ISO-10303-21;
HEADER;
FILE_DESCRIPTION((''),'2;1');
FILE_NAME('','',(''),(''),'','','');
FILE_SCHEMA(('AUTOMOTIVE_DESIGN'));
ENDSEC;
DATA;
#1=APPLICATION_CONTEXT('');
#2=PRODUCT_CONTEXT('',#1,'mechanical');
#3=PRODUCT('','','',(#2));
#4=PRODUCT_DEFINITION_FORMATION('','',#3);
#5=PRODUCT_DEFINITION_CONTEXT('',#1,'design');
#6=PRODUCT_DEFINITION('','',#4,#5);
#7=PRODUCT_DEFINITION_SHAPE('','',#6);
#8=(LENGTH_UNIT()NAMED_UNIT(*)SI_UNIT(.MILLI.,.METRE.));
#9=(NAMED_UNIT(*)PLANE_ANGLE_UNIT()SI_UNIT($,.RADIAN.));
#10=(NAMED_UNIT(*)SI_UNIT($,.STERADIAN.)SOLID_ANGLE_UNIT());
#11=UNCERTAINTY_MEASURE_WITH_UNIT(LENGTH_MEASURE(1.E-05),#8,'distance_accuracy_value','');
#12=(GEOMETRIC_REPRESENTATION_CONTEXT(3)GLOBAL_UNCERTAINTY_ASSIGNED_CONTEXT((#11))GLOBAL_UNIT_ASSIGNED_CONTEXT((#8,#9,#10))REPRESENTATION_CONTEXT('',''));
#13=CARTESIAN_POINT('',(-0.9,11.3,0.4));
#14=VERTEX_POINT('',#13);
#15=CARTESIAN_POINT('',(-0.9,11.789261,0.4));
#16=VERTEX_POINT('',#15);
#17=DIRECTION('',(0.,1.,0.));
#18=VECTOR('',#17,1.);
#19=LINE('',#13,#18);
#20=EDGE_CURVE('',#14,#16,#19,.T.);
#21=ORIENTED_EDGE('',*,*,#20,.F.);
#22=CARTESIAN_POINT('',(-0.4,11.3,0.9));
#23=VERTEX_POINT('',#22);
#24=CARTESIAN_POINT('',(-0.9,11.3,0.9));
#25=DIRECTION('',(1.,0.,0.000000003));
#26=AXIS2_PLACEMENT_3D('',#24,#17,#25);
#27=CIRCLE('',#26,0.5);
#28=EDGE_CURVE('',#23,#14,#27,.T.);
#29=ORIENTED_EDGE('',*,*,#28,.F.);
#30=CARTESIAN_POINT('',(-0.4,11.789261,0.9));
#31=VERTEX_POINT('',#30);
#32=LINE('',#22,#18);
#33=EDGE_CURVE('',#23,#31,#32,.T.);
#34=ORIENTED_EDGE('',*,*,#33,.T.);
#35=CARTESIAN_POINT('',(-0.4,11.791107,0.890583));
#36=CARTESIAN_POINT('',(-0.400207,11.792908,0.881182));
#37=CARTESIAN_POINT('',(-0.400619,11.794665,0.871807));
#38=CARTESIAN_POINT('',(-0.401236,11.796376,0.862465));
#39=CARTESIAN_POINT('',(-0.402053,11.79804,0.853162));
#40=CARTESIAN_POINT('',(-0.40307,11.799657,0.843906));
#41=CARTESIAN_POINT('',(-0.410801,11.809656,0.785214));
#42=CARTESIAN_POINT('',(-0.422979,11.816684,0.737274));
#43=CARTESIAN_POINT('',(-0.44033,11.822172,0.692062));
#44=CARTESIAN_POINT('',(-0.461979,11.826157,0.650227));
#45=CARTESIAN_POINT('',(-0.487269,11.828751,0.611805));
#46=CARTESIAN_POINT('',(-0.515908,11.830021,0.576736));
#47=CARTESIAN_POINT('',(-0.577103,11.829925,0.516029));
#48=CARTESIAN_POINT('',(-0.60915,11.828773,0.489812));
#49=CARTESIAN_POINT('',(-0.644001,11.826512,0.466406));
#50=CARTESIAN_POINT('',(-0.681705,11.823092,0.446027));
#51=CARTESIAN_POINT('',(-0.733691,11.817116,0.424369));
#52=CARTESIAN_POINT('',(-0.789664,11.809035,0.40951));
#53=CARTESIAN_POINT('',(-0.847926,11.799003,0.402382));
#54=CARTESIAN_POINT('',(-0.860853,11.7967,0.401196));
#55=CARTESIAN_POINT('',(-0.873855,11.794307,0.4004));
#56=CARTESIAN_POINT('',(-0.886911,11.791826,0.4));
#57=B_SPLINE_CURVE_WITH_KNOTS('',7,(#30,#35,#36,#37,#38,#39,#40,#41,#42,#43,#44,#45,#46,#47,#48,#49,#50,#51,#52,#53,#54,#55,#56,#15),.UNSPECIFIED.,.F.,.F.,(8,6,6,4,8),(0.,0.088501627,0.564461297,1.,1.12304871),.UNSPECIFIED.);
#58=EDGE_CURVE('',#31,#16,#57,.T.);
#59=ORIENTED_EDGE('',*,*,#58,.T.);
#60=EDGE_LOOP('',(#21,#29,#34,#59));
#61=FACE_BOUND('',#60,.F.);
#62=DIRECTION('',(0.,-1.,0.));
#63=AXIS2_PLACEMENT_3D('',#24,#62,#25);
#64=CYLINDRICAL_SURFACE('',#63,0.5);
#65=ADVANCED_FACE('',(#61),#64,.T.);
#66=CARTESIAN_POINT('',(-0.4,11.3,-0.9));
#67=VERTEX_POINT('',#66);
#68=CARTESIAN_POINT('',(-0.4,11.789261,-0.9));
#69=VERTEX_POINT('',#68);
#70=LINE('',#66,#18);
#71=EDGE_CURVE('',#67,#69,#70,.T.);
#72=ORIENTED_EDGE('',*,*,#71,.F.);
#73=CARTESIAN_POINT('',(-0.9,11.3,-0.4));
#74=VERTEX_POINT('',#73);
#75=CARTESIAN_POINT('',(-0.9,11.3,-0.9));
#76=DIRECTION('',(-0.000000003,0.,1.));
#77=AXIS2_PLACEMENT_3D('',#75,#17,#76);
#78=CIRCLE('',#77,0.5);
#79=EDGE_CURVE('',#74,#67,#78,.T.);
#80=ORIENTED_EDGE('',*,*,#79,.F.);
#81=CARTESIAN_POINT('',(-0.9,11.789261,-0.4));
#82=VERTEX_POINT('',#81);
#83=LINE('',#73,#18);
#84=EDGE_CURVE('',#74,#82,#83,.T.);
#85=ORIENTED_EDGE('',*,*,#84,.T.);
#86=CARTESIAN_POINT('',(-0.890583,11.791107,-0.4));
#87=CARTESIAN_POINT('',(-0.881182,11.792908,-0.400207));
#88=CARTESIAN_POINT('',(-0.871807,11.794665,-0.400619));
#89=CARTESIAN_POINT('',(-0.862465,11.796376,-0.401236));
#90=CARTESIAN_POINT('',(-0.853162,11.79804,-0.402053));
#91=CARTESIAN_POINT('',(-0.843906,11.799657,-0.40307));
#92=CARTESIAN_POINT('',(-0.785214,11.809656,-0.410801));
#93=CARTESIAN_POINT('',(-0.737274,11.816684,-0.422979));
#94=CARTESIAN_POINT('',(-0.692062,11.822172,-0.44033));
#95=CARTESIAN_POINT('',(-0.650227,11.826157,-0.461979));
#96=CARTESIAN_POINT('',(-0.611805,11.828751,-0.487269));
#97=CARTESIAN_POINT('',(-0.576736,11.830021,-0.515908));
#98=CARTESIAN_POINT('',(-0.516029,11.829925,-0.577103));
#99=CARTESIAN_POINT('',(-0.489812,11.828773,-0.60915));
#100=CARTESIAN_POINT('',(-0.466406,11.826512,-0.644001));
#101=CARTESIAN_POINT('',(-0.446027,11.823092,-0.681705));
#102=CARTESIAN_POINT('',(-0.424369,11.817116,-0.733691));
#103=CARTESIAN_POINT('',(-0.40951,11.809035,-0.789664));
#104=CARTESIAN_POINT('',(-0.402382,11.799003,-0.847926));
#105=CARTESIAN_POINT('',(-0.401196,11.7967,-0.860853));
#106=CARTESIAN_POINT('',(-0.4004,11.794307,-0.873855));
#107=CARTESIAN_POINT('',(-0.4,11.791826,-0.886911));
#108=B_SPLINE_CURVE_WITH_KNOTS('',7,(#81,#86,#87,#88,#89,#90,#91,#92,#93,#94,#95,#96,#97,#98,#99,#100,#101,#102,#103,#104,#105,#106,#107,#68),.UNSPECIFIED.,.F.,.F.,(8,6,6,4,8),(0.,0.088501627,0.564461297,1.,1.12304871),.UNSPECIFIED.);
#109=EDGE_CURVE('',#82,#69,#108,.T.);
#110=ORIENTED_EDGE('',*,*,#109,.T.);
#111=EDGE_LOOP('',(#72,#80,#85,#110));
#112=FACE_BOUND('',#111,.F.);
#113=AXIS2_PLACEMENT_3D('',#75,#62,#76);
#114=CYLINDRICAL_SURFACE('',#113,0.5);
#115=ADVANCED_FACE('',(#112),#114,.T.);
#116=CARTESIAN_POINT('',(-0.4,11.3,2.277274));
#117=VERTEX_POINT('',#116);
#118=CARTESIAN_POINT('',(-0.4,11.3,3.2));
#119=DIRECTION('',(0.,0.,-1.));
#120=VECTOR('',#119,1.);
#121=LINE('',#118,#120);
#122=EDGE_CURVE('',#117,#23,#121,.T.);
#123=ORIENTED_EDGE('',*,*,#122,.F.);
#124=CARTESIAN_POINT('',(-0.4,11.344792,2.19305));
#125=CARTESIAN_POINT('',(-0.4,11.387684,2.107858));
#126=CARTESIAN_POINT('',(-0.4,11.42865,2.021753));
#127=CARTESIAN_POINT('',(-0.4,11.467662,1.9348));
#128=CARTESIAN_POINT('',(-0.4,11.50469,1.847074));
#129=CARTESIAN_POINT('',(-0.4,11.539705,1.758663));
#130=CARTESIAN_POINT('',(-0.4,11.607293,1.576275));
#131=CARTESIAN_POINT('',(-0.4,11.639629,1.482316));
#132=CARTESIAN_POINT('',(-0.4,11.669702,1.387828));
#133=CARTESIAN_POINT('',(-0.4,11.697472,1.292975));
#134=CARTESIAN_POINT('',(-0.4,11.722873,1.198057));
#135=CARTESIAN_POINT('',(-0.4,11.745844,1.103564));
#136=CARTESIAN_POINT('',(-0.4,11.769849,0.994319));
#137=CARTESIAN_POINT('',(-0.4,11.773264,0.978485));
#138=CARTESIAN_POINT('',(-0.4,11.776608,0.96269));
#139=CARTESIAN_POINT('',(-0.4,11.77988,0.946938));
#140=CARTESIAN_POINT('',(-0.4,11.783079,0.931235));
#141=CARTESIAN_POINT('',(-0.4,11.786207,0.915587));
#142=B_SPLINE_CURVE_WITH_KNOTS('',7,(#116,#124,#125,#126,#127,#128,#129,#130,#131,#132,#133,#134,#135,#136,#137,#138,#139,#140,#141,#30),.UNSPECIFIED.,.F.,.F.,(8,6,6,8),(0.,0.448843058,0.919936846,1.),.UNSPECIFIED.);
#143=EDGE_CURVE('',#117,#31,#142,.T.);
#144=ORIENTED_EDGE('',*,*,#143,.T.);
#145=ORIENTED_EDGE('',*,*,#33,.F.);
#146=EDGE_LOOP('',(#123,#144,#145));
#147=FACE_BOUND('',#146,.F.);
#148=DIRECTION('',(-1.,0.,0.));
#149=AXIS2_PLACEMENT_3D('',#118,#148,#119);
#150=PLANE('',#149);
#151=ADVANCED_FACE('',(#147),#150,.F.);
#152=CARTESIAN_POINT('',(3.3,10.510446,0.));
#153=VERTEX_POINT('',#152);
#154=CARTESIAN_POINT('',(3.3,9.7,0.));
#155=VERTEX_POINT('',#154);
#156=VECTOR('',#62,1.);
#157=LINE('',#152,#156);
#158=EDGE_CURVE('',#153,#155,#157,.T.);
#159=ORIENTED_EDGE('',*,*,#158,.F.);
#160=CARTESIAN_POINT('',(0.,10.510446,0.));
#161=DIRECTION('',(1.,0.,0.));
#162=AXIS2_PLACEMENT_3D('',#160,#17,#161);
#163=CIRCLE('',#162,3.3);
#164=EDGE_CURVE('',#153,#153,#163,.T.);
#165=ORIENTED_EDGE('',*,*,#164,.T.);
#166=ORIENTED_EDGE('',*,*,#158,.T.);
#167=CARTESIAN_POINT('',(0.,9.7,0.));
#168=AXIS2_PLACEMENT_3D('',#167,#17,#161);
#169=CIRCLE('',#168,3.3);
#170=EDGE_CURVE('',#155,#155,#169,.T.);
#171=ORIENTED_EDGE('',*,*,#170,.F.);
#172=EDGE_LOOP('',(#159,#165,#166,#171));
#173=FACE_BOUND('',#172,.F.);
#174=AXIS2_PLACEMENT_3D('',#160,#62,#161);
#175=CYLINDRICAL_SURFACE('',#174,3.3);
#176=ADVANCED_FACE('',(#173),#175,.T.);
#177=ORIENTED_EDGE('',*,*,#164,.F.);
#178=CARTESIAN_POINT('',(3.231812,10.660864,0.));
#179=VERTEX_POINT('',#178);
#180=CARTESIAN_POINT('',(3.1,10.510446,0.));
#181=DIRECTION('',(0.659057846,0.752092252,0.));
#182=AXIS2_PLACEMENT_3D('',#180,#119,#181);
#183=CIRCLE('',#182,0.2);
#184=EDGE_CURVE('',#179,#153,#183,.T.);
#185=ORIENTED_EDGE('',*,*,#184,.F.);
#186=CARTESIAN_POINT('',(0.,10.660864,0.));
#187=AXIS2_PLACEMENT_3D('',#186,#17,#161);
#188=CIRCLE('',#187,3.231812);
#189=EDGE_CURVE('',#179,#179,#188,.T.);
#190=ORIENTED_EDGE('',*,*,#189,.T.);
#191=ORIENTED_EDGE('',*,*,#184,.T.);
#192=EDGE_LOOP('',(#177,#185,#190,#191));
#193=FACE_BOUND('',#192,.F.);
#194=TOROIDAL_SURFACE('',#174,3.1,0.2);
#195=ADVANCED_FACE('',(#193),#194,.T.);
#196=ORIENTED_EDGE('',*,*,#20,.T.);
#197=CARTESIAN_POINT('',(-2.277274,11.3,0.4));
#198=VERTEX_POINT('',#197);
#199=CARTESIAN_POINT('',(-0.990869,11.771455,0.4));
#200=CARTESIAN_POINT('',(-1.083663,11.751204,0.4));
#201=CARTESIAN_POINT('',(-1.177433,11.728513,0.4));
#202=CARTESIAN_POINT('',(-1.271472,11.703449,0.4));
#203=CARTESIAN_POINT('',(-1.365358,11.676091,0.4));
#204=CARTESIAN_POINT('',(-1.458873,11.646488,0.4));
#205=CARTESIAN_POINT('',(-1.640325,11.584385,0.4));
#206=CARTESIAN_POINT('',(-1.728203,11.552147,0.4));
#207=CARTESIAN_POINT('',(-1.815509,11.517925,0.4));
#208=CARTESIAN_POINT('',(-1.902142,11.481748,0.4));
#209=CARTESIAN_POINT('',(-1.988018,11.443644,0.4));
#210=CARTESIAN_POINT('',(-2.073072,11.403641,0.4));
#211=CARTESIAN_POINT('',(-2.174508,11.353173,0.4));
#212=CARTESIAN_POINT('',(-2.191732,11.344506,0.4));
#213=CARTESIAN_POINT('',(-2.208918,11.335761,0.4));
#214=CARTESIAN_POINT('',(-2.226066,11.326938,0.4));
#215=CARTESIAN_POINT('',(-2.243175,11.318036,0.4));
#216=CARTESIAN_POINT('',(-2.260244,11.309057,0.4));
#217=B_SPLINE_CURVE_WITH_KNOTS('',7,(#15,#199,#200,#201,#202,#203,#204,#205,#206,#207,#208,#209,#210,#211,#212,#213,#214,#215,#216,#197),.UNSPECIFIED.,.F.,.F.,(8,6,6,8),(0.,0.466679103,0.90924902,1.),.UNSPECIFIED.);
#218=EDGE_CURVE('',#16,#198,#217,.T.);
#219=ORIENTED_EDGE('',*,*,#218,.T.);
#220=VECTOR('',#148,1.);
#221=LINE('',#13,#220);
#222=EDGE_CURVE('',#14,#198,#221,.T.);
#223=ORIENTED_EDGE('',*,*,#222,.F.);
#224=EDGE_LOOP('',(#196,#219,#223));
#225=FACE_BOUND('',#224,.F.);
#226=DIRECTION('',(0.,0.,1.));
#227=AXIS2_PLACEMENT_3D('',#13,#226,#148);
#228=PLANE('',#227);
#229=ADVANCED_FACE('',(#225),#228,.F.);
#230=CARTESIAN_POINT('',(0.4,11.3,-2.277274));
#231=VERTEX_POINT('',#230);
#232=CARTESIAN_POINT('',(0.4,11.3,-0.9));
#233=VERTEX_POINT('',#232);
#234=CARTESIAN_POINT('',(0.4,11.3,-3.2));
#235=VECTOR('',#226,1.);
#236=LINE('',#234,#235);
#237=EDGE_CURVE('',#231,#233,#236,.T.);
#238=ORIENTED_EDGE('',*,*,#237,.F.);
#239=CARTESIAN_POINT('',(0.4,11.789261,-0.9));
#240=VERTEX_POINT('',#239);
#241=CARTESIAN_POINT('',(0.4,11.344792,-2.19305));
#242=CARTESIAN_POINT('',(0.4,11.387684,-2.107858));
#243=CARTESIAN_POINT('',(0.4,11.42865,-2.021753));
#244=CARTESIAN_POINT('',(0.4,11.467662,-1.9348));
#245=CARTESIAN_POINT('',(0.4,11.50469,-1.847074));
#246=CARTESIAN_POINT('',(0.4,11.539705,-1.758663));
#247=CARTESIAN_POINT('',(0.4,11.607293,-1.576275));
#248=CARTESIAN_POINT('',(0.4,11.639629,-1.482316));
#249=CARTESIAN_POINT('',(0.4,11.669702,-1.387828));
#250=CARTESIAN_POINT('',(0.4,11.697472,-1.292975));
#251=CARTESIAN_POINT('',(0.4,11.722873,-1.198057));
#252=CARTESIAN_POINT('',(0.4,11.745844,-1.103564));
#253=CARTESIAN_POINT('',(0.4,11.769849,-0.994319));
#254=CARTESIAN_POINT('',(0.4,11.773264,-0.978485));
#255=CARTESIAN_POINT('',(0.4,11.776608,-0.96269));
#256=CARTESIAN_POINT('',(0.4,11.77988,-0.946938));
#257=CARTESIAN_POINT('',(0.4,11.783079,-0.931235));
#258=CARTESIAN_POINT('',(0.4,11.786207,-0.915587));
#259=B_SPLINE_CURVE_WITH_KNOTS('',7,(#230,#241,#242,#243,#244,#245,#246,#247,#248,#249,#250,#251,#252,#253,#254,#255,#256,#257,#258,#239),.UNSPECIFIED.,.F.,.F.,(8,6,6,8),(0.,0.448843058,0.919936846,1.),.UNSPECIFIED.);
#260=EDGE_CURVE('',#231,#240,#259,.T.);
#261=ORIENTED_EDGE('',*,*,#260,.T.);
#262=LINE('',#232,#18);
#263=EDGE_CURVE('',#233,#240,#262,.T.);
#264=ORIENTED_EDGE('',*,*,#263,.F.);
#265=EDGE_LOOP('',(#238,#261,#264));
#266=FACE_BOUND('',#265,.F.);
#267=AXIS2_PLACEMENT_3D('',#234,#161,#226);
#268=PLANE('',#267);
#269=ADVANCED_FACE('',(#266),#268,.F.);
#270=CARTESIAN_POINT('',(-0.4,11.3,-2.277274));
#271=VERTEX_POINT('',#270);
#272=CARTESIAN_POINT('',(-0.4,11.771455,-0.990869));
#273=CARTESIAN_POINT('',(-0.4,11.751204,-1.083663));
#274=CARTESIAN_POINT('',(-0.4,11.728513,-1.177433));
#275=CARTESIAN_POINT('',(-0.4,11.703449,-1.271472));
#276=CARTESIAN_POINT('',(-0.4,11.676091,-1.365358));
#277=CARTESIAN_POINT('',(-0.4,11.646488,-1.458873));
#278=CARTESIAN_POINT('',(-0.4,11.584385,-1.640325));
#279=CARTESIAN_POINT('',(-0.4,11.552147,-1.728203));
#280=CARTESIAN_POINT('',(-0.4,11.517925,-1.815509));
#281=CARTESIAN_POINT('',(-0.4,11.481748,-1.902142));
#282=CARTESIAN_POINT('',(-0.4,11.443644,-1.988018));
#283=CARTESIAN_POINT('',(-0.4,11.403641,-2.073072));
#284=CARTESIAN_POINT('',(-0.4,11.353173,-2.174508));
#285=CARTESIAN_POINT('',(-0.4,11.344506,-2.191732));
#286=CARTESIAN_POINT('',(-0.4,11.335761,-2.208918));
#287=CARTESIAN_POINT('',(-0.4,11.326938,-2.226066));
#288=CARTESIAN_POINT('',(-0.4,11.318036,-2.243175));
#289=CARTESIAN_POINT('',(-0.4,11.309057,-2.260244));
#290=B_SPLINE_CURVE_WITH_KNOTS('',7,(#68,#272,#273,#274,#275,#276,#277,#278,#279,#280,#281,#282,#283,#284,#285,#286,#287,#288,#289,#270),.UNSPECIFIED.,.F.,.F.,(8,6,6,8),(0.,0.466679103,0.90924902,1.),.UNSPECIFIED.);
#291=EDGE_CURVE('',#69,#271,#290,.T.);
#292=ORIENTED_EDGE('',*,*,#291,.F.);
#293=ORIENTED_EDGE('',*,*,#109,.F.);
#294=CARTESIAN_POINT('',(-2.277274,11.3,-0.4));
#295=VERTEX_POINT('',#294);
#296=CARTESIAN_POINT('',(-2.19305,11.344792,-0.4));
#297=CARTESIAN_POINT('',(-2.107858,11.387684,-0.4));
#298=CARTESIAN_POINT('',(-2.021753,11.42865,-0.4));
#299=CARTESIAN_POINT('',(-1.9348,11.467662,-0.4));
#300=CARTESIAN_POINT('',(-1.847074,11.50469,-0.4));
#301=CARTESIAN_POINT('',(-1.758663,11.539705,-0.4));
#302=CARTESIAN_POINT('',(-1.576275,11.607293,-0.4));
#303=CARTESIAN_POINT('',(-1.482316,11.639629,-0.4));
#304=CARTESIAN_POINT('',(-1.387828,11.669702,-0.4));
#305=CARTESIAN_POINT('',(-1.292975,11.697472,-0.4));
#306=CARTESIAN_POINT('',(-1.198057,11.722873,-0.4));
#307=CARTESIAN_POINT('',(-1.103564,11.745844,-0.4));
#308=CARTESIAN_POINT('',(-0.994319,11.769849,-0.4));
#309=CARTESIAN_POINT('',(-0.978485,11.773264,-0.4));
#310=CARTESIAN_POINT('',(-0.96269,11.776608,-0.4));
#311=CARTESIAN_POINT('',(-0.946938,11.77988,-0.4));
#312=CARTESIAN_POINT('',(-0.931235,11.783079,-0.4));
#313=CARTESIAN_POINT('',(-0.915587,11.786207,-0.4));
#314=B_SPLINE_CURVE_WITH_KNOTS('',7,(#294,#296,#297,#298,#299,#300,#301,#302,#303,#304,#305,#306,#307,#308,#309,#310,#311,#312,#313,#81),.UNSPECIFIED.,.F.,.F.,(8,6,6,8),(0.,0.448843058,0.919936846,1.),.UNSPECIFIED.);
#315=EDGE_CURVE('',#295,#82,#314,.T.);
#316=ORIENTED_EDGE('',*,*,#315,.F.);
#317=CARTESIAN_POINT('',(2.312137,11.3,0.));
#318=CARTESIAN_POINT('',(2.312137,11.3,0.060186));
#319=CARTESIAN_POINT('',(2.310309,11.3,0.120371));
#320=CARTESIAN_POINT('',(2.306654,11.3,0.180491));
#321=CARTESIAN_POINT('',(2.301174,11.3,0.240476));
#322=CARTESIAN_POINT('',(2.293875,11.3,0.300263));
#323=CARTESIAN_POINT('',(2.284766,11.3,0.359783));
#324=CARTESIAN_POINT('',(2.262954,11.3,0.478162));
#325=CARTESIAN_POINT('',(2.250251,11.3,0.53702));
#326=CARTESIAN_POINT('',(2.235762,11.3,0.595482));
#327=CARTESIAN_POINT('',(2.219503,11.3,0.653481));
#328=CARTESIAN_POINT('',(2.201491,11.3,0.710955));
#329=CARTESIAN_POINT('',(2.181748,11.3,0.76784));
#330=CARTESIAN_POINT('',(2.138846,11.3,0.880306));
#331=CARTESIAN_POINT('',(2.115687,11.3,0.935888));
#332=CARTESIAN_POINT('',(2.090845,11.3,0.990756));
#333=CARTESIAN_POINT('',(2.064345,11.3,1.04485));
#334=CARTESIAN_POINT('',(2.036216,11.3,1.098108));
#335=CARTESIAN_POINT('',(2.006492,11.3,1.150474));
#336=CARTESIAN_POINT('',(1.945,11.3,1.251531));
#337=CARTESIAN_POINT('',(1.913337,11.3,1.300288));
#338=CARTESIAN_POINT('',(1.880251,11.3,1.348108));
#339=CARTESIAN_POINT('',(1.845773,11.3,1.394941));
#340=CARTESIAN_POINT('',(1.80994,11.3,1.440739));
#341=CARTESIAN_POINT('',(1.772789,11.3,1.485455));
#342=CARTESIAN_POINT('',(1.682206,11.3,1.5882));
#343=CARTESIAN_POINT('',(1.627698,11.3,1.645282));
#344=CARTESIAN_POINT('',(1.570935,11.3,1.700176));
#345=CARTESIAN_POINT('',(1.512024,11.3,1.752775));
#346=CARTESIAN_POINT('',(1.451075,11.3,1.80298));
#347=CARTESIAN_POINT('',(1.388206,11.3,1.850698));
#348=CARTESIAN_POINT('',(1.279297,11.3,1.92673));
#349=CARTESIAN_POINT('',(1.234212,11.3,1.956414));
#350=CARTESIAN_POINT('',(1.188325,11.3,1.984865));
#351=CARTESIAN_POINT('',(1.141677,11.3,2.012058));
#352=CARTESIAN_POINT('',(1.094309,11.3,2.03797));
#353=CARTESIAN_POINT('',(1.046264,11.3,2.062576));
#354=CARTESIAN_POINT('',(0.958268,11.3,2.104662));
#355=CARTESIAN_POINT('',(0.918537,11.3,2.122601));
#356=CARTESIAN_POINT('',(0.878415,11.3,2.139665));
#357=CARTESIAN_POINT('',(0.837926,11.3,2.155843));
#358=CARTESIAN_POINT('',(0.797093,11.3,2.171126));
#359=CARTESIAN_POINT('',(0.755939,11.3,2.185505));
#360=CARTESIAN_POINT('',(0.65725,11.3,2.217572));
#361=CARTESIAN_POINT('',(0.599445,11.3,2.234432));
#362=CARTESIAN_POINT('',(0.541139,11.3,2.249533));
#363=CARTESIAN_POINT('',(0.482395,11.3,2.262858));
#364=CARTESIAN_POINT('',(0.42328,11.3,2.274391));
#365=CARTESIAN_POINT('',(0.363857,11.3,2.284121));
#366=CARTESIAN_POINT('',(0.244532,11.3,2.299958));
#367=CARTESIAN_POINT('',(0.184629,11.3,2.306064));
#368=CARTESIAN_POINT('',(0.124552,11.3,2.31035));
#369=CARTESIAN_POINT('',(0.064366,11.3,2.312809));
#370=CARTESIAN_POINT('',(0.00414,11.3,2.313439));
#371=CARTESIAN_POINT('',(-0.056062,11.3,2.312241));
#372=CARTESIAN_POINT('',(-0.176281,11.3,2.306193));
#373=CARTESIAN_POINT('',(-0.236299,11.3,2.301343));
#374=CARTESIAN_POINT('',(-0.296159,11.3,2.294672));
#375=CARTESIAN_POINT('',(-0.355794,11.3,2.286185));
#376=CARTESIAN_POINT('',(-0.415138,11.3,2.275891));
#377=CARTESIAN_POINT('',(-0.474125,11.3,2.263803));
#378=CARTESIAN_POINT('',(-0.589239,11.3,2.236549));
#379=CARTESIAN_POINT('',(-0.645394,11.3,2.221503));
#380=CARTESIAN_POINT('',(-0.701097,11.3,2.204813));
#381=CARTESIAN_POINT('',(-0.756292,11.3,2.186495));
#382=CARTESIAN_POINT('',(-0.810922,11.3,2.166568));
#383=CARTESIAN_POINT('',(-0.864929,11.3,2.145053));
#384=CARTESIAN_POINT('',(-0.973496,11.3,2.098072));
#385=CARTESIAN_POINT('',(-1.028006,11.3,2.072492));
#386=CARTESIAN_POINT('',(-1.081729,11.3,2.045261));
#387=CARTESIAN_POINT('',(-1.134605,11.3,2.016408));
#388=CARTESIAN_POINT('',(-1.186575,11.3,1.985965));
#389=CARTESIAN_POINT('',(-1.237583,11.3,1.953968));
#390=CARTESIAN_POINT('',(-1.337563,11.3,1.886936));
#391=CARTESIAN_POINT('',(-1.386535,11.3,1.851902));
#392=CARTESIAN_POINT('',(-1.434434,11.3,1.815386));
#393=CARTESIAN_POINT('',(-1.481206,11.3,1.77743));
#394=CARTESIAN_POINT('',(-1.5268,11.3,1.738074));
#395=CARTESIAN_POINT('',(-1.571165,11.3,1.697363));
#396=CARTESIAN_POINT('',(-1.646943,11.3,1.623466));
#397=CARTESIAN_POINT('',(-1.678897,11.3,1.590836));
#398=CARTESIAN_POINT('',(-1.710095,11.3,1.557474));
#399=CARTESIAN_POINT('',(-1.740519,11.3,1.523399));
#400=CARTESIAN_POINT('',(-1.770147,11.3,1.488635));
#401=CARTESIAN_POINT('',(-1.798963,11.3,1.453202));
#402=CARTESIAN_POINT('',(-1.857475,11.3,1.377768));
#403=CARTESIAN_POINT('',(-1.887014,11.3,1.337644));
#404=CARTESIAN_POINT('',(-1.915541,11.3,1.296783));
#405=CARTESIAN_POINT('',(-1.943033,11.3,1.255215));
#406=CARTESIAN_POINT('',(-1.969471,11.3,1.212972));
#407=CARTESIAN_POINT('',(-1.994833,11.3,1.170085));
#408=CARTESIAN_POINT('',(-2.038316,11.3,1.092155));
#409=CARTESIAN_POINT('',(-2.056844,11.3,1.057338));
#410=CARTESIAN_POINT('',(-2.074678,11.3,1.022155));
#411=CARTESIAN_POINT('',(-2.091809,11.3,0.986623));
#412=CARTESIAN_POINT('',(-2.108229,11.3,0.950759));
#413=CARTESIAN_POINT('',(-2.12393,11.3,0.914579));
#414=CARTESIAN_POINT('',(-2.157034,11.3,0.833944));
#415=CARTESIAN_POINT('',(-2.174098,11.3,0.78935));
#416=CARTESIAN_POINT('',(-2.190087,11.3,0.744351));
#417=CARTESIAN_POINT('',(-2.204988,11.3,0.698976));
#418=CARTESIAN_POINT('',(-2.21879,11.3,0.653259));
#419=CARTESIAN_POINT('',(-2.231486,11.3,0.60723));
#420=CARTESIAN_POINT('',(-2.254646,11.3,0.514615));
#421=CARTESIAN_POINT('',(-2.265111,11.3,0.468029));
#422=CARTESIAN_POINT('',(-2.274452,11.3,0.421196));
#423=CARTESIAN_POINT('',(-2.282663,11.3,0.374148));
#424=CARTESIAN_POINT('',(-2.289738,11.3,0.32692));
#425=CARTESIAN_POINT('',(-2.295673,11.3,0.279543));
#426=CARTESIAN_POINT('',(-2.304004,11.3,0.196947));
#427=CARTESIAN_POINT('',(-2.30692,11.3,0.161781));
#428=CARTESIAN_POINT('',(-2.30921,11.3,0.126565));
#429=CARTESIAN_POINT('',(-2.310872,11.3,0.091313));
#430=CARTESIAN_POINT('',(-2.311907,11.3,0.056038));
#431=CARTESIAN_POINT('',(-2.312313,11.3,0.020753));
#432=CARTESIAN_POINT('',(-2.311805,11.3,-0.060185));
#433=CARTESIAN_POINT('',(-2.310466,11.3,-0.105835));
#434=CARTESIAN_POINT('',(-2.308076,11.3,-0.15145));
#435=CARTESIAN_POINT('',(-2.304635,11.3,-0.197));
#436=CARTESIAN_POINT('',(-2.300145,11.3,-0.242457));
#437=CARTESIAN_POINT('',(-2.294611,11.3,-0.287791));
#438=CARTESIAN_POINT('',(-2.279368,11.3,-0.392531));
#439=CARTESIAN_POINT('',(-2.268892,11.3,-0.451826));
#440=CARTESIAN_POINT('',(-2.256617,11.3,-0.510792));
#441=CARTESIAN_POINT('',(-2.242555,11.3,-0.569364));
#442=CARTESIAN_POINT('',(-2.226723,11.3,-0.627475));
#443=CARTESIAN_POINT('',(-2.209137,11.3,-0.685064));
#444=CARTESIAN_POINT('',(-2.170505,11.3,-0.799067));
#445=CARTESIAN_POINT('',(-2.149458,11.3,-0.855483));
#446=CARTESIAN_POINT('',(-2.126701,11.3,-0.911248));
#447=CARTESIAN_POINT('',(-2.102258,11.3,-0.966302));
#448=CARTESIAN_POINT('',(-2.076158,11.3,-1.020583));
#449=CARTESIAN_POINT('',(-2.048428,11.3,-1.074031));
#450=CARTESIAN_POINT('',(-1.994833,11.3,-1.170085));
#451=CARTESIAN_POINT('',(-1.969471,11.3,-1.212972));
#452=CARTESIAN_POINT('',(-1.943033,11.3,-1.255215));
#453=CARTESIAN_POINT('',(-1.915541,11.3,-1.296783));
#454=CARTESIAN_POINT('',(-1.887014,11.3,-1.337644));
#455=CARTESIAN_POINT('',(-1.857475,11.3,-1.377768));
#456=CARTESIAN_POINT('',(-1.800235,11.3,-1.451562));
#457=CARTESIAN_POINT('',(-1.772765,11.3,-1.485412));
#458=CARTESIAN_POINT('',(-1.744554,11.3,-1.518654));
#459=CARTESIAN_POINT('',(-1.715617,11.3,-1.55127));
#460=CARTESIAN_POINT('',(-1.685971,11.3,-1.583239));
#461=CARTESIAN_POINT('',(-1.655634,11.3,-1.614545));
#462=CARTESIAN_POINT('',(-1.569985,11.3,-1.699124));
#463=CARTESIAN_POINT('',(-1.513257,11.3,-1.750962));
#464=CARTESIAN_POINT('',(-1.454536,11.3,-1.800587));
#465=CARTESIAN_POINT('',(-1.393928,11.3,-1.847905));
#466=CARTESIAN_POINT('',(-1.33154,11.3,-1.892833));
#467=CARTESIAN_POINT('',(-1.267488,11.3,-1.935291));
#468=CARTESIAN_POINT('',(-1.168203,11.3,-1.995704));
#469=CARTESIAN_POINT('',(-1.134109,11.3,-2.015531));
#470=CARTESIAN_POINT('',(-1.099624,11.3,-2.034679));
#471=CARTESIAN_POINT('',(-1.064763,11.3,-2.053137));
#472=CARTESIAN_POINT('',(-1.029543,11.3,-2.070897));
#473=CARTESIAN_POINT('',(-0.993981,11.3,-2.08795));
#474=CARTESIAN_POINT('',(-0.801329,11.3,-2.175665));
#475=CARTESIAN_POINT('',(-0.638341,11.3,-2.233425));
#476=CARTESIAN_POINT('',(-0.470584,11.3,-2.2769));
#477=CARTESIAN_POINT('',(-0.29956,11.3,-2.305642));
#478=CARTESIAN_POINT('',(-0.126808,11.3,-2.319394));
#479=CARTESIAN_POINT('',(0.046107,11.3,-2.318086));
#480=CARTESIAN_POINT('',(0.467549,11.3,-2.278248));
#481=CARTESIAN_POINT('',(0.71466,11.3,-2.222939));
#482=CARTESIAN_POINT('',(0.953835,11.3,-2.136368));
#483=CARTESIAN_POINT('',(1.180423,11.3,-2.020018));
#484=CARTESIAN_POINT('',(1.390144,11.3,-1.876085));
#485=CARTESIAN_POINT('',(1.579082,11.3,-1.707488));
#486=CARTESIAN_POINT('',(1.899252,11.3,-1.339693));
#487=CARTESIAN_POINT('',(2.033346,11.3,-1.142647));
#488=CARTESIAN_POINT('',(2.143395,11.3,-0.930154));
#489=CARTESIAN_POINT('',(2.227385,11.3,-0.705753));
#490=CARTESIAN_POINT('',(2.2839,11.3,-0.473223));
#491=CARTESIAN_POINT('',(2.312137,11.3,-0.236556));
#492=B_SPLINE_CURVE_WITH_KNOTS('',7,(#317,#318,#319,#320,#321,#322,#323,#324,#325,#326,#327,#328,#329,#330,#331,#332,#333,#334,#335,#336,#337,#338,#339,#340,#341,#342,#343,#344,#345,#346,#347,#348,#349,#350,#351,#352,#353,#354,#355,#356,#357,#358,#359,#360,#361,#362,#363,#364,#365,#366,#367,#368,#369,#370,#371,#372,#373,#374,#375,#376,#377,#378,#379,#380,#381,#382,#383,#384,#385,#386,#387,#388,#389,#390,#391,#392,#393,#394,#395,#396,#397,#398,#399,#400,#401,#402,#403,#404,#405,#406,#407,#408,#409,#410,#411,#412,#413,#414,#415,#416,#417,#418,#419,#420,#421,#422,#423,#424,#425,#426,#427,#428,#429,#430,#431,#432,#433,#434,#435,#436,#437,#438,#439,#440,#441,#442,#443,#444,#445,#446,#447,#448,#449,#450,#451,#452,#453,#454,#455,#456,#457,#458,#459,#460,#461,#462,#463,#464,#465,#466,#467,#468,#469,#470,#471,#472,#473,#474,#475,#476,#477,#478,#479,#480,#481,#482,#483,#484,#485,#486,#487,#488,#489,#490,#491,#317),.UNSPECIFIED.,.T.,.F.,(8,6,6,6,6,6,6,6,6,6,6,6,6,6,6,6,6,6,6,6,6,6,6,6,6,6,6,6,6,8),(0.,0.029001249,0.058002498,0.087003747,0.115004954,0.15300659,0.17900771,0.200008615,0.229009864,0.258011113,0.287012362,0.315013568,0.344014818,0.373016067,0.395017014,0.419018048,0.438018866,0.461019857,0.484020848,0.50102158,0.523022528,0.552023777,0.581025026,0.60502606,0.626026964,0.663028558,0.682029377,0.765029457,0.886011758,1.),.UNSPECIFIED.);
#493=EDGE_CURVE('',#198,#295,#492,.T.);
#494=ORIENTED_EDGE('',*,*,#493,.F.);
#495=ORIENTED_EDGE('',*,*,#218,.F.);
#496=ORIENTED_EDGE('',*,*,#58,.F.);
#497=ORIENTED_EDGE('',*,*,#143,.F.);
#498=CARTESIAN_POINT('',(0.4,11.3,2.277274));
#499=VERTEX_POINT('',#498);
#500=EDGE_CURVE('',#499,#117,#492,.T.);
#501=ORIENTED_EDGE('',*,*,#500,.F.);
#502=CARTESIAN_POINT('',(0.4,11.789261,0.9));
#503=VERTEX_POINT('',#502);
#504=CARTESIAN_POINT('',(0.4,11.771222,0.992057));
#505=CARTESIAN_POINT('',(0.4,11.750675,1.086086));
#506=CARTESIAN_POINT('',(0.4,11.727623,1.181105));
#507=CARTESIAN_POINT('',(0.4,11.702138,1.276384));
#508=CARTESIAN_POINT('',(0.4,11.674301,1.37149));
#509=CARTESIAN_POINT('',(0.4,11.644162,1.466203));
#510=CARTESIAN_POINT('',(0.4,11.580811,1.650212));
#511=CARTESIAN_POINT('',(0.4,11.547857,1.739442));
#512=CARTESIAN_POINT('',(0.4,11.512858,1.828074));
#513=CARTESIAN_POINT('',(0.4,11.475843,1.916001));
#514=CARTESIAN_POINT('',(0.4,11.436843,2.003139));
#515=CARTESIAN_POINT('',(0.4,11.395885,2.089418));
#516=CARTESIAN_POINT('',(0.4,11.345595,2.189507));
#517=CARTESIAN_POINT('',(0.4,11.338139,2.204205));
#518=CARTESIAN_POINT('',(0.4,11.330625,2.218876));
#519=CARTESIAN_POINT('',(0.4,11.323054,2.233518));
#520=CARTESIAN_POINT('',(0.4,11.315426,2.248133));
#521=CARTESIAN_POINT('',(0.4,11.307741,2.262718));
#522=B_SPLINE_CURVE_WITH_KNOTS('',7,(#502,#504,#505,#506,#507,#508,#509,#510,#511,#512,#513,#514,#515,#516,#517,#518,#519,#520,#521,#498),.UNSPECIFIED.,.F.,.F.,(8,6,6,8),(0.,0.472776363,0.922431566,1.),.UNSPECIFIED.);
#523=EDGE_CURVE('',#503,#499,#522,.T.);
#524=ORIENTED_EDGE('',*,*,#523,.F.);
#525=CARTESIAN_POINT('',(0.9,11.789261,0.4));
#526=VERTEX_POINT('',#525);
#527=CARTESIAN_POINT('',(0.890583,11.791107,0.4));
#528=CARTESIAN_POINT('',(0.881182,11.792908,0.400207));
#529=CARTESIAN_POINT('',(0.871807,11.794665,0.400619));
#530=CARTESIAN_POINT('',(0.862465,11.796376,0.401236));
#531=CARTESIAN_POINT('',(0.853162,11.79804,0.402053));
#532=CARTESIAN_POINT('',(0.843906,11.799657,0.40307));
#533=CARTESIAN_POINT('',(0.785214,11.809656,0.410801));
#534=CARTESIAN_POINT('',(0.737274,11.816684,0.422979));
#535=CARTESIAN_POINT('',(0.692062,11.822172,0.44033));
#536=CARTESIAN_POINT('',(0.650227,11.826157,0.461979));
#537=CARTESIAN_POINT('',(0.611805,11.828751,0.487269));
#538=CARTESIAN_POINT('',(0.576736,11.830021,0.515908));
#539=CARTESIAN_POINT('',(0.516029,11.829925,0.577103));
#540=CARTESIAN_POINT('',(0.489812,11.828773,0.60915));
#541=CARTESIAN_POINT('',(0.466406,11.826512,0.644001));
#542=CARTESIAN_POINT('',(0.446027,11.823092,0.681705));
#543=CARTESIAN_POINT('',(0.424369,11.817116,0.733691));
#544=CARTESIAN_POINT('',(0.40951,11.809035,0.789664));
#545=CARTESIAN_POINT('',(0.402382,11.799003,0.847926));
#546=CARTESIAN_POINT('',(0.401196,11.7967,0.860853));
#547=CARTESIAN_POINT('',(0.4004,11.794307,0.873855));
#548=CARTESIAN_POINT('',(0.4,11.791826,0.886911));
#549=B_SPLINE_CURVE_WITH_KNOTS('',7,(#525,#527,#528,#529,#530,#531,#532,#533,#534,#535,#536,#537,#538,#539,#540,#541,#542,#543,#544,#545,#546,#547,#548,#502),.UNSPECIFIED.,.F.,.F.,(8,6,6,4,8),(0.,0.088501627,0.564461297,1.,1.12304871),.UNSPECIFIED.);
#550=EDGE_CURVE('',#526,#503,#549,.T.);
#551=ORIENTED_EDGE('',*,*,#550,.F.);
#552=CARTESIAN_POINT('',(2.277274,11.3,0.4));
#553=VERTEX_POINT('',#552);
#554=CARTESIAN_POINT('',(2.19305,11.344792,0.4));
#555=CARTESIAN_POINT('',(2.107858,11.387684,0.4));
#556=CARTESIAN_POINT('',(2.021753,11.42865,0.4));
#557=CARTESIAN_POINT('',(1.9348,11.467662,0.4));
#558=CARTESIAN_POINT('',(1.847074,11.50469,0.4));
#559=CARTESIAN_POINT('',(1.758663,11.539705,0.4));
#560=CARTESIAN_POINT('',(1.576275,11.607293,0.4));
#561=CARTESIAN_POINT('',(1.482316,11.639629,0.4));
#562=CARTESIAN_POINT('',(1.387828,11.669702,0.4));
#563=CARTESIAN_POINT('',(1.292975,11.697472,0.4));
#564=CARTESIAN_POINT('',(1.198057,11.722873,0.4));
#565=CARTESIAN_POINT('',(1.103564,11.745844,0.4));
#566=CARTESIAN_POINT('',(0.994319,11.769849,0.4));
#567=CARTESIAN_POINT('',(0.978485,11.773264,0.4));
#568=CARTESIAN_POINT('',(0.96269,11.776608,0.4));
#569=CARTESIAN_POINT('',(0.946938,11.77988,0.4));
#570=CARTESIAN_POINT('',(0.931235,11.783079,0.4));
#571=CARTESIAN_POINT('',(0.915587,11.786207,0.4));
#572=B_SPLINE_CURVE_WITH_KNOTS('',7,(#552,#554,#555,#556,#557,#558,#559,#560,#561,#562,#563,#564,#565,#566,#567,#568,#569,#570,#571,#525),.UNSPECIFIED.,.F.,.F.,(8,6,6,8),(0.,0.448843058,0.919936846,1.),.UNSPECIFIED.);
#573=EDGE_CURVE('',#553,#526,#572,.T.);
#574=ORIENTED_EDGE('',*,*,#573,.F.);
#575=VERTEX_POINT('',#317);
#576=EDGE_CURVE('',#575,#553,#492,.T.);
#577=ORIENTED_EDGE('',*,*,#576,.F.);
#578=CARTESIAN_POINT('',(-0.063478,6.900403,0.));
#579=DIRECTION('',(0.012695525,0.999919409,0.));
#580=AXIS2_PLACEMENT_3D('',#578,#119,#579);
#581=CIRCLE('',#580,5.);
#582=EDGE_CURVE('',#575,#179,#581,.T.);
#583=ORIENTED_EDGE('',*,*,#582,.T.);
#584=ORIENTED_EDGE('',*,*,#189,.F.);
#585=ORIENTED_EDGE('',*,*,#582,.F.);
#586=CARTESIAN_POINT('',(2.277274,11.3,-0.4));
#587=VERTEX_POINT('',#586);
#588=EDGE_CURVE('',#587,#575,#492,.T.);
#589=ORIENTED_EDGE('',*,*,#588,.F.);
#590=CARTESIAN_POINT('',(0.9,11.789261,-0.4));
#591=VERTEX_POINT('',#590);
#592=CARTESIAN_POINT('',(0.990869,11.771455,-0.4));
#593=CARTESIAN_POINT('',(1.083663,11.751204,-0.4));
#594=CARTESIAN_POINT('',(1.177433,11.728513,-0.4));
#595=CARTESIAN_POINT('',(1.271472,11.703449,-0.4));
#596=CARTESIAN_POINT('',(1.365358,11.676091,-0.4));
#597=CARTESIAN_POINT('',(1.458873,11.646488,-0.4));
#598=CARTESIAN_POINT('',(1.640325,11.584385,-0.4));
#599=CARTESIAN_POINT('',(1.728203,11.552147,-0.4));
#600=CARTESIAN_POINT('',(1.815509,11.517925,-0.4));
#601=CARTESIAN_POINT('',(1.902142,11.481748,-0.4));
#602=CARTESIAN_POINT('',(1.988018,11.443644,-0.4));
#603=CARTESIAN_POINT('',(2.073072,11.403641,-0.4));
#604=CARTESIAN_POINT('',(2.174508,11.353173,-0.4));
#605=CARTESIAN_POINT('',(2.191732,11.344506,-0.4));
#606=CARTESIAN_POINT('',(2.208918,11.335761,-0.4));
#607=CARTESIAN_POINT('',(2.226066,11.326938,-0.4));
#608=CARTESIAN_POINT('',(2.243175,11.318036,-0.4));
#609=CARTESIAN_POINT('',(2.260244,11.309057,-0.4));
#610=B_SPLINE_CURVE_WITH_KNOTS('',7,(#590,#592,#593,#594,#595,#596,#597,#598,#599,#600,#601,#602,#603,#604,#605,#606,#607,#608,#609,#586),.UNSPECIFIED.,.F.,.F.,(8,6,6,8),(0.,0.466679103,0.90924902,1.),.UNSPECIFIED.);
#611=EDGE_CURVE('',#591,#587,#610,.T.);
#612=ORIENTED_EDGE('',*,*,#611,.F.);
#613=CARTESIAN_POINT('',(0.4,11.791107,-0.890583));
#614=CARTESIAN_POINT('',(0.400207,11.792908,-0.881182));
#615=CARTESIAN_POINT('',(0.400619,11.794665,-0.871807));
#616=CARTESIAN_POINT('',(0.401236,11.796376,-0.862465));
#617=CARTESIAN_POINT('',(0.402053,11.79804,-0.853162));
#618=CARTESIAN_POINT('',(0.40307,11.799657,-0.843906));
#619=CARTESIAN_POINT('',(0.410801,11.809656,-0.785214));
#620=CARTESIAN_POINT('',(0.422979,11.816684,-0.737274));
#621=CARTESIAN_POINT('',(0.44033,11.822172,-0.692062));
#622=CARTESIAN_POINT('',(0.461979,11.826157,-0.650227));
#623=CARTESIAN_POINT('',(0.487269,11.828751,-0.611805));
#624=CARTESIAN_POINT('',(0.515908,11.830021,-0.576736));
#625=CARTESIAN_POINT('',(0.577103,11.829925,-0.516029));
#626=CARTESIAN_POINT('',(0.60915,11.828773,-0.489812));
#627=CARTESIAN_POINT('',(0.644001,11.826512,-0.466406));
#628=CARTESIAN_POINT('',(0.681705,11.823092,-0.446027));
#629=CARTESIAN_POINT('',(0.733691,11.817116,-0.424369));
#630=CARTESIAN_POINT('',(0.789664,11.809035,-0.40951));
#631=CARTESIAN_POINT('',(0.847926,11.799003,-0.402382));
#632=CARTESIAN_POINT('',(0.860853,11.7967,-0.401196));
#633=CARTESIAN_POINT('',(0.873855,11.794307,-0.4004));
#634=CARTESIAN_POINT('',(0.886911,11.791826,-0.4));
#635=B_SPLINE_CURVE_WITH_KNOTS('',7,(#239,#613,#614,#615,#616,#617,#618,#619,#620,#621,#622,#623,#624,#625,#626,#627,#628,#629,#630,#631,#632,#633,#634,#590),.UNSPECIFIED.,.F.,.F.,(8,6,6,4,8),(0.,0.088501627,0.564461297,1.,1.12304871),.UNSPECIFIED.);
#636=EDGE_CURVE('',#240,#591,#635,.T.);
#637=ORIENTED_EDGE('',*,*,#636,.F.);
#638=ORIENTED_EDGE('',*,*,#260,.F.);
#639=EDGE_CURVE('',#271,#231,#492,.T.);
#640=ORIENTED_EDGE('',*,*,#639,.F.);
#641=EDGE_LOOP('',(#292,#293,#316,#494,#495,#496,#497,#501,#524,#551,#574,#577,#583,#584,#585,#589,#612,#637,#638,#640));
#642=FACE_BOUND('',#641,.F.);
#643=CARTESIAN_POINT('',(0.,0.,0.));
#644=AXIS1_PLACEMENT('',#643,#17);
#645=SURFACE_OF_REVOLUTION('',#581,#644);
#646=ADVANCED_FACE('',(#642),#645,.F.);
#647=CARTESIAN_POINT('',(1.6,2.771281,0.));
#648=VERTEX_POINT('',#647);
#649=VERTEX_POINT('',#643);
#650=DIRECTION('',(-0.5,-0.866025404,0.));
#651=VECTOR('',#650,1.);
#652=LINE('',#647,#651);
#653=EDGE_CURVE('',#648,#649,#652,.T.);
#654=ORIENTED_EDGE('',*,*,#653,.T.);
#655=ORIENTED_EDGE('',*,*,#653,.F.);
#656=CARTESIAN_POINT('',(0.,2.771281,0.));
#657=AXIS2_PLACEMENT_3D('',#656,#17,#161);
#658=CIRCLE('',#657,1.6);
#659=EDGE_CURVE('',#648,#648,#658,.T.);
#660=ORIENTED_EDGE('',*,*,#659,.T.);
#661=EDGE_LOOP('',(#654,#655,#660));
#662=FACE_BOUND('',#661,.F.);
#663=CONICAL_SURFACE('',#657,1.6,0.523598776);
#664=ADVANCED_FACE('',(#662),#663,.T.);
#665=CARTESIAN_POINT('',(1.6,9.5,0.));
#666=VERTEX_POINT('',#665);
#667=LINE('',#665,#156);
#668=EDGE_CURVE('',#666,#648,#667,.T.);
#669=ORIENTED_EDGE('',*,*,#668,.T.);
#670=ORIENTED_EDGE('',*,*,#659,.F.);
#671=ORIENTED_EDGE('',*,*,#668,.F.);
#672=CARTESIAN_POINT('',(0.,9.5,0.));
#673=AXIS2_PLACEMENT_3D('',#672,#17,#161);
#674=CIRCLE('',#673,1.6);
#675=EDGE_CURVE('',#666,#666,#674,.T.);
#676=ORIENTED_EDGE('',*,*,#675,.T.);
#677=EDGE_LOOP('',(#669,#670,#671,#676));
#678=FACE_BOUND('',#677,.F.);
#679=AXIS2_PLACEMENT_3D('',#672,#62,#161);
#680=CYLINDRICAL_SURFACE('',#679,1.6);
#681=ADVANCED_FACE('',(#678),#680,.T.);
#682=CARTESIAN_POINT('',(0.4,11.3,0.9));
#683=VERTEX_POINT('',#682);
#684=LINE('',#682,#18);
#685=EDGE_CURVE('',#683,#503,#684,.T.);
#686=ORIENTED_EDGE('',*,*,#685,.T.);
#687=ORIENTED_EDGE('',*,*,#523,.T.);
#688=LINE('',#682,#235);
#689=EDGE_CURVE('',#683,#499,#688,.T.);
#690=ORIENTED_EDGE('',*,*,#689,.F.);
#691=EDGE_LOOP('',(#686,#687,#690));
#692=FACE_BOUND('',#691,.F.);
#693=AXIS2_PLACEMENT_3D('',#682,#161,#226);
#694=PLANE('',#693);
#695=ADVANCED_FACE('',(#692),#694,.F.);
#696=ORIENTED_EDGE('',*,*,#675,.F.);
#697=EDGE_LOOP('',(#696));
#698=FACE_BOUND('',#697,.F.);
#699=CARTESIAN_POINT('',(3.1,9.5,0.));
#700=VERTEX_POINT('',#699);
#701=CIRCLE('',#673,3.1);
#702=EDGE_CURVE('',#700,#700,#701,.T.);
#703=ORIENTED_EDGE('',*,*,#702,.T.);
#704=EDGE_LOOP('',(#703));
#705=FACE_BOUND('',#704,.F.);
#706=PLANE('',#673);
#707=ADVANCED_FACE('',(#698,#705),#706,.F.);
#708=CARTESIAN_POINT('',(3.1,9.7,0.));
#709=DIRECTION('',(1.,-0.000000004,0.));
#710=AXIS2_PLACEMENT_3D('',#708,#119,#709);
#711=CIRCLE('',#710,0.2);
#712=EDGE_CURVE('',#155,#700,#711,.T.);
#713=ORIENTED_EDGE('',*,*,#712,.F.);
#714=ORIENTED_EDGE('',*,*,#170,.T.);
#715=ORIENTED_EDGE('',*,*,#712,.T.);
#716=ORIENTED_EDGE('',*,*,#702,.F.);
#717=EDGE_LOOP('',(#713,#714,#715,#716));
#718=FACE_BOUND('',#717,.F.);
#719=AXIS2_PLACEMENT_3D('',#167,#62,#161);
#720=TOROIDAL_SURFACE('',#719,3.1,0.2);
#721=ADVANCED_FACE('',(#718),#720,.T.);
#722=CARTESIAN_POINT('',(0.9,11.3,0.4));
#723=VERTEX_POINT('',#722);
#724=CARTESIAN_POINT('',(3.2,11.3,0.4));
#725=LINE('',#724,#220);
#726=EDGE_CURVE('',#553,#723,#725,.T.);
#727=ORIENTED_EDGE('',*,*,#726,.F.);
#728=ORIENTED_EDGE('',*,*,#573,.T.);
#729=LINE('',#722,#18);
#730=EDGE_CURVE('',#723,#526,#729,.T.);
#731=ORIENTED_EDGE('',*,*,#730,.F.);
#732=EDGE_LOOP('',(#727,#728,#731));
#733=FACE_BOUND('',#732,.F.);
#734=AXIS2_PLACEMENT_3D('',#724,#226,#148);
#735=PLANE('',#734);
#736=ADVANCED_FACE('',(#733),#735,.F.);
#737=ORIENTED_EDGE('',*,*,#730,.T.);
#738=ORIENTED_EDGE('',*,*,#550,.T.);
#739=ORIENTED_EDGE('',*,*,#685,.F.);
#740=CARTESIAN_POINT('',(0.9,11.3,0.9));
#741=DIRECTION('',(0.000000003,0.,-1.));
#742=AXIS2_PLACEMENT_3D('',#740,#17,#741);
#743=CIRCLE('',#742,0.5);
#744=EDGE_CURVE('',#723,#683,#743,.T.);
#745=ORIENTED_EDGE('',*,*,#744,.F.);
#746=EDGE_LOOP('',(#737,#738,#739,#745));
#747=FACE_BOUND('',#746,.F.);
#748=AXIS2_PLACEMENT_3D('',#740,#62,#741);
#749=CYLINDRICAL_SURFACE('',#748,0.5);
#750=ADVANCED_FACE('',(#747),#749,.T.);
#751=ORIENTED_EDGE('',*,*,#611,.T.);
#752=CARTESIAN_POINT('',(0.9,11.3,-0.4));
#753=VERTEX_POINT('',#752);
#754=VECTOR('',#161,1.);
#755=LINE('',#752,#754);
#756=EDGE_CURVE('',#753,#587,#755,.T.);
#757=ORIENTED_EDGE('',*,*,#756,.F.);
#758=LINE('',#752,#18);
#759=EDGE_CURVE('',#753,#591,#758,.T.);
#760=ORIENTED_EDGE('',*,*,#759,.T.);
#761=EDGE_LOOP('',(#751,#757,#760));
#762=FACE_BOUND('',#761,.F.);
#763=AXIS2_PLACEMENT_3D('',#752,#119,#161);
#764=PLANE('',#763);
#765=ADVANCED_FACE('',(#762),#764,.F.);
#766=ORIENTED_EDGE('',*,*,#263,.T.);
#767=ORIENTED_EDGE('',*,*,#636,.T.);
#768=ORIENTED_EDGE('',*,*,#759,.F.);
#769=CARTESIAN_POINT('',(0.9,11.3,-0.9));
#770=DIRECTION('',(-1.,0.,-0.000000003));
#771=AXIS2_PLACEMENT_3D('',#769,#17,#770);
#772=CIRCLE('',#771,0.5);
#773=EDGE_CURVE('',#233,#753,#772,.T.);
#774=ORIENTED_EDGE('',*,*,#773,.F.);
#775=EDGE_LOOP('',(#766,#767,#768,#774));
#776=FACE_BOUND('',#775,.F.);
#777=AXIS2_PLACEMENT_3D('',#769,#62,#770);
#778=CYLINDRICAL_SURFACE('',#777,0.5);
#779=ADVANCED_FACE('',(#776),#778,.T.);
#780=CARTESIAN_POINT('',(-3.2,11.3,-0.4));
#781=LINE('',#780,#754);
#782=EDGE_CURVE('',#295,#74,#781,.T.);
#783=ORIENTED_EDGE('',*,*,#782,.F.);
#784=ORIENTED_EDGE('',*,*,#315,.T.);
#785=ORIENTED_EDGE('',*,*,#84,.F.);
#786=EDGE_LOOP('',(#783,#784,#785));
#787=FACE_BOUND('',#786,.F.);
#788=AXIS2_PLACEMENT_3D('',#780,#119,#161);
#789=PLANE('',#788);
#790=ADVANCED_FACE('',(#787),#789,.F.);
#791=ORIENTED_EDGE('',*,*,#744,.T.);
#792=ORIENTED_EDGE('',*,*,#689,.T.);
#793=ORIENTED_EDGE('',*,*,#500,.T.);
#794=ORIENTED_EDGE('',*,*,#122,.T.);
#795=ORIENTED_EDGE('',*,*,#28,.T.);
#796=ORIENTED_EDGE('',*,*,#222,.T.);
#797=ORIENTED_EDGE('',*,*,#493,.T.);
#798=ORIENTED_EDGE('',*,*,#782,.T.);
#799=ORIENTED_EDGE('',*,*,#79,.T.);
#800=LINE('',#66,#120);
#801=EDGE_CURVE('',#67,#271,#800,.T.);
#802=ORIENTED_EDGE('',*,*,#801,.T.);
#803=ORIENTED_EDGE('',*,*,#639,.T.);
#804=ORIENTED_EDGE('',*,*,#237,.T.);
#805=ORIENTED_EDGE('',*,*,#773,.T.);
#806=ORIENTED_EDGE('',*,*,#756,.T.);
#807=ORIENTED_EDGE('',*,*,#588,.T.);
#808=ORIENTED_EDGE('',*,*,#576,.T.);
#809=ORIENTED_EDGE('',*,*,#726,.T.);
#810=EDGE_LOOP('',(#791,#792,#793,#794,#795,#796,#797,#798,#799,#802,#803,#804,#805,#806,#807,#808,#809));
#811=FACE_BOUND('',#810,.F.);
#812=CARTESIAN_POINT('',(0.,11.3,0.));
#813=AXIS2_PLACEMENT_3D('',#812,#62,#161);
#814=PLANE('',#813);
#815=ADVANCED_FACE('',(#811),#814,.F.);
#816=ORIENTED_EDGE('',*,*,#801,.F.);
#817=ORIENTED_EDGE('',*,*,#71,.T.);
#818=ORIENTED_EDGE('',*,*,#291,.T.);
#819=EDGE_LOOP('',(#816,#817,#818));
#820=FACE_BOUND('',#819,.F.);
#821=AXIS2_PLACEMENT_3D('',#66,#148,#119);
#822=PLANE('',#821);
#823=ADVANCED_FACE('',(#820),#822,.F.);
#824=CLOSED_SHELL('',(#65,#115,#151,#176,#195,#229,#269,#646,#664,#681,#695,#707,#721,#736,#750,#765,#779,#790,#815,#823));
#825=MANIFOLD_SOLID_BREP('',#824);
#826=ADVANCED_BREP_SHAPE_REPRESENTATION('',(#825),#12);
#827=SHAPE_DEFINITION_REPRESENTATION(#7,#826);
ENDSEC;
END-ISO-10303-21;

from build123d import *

# Parameters (mm, degrees)
CORTAR_EXTRUIR1_START = -1.8
CORTAR_EXTRUIR1_DEPTH = 3


with BuildPart() as part:
    # Croquis1 → Revolución1 (revolve)
    with BuildSketch(Plane.XY):
        with BuildLine():
            Line((0, 0), (0, 11.9))
            ThreePointArc((0, 11.9), (1.726548348, 11.569000929), (3.231811568, 10.660864252))
            ThreePointArc((3.231811568, 10.660864252), (3.282156956, 10.593022088), (3.3, 10.5104458))
            Line((3.3, 10.5104458), (3.3, 9.7))
            ThreePointArc((3.3, 9.7), (3.241421356, 9.558578644), (3.1, 9.5))
            Line((3.1, 9.5), (1.6, 9.5))
            Line((1.6, 9.5), (1.6, 2.771281292))
            Line((1.6, 2.771281292), (0, 0))
        make_face()
    revolve(axis=Axis((0, 0, 0), (0, 1, 0)))

    # Croquis2 → Cortar-Extruir1 (cut)
    with BuildSketch(Plane.XZ.offset(-9.5).offset(CORTAR_EXTRUIR1_START)):
        with BuildLine():
            Line((-0.4, 3.2), (-0.4, 0.9))
            ThreePointArc((-0.4, 0.9), (-0.546446609, 0.546446609), (-0.9, 0.4))
            Line((-0.9, 0.4), (-3.2, 0.4))
            Line((-3.2, 0.4), (-3.2, -0.4))
            Line((-3.2, -0.4), (-0.9, -0.4))
            ThreePointArc((-0.9, -0.4), (-0.546446609, -0.546446609), (-0.4, -0.9))
            Line((-0.4, -0.9), (-0.4, -3.2))
            Line((-0.4, -3.2), (0.4, -3.2))
            Line((0.4, -3.2), (0.4, -0.9))
            ThreePointArc((0.4, -0.9), (0.546446609, -0.546446609), (0.9, -0.4))
            Line((0.9, -0.4), (3.2, -0.4))
            Line((3.2, -0.4), (3.2, 0.4))
            Line((3.2, 0.4), (0.9, 0.4))
            ThreePointArc((0.9, 0.4), (0.546446609, 0.546446609), (0.4, 0.9))
            Line((0.4, 0.9), (0.4, 3.2))
            Line((0.4, 3.2), (-0.4, 3.2))
        make_face()
    extrude(amount=-CORTAR_EXTRUIR1_DEPTH, mode=Mode.SUBTRACT)


solid = part.part
